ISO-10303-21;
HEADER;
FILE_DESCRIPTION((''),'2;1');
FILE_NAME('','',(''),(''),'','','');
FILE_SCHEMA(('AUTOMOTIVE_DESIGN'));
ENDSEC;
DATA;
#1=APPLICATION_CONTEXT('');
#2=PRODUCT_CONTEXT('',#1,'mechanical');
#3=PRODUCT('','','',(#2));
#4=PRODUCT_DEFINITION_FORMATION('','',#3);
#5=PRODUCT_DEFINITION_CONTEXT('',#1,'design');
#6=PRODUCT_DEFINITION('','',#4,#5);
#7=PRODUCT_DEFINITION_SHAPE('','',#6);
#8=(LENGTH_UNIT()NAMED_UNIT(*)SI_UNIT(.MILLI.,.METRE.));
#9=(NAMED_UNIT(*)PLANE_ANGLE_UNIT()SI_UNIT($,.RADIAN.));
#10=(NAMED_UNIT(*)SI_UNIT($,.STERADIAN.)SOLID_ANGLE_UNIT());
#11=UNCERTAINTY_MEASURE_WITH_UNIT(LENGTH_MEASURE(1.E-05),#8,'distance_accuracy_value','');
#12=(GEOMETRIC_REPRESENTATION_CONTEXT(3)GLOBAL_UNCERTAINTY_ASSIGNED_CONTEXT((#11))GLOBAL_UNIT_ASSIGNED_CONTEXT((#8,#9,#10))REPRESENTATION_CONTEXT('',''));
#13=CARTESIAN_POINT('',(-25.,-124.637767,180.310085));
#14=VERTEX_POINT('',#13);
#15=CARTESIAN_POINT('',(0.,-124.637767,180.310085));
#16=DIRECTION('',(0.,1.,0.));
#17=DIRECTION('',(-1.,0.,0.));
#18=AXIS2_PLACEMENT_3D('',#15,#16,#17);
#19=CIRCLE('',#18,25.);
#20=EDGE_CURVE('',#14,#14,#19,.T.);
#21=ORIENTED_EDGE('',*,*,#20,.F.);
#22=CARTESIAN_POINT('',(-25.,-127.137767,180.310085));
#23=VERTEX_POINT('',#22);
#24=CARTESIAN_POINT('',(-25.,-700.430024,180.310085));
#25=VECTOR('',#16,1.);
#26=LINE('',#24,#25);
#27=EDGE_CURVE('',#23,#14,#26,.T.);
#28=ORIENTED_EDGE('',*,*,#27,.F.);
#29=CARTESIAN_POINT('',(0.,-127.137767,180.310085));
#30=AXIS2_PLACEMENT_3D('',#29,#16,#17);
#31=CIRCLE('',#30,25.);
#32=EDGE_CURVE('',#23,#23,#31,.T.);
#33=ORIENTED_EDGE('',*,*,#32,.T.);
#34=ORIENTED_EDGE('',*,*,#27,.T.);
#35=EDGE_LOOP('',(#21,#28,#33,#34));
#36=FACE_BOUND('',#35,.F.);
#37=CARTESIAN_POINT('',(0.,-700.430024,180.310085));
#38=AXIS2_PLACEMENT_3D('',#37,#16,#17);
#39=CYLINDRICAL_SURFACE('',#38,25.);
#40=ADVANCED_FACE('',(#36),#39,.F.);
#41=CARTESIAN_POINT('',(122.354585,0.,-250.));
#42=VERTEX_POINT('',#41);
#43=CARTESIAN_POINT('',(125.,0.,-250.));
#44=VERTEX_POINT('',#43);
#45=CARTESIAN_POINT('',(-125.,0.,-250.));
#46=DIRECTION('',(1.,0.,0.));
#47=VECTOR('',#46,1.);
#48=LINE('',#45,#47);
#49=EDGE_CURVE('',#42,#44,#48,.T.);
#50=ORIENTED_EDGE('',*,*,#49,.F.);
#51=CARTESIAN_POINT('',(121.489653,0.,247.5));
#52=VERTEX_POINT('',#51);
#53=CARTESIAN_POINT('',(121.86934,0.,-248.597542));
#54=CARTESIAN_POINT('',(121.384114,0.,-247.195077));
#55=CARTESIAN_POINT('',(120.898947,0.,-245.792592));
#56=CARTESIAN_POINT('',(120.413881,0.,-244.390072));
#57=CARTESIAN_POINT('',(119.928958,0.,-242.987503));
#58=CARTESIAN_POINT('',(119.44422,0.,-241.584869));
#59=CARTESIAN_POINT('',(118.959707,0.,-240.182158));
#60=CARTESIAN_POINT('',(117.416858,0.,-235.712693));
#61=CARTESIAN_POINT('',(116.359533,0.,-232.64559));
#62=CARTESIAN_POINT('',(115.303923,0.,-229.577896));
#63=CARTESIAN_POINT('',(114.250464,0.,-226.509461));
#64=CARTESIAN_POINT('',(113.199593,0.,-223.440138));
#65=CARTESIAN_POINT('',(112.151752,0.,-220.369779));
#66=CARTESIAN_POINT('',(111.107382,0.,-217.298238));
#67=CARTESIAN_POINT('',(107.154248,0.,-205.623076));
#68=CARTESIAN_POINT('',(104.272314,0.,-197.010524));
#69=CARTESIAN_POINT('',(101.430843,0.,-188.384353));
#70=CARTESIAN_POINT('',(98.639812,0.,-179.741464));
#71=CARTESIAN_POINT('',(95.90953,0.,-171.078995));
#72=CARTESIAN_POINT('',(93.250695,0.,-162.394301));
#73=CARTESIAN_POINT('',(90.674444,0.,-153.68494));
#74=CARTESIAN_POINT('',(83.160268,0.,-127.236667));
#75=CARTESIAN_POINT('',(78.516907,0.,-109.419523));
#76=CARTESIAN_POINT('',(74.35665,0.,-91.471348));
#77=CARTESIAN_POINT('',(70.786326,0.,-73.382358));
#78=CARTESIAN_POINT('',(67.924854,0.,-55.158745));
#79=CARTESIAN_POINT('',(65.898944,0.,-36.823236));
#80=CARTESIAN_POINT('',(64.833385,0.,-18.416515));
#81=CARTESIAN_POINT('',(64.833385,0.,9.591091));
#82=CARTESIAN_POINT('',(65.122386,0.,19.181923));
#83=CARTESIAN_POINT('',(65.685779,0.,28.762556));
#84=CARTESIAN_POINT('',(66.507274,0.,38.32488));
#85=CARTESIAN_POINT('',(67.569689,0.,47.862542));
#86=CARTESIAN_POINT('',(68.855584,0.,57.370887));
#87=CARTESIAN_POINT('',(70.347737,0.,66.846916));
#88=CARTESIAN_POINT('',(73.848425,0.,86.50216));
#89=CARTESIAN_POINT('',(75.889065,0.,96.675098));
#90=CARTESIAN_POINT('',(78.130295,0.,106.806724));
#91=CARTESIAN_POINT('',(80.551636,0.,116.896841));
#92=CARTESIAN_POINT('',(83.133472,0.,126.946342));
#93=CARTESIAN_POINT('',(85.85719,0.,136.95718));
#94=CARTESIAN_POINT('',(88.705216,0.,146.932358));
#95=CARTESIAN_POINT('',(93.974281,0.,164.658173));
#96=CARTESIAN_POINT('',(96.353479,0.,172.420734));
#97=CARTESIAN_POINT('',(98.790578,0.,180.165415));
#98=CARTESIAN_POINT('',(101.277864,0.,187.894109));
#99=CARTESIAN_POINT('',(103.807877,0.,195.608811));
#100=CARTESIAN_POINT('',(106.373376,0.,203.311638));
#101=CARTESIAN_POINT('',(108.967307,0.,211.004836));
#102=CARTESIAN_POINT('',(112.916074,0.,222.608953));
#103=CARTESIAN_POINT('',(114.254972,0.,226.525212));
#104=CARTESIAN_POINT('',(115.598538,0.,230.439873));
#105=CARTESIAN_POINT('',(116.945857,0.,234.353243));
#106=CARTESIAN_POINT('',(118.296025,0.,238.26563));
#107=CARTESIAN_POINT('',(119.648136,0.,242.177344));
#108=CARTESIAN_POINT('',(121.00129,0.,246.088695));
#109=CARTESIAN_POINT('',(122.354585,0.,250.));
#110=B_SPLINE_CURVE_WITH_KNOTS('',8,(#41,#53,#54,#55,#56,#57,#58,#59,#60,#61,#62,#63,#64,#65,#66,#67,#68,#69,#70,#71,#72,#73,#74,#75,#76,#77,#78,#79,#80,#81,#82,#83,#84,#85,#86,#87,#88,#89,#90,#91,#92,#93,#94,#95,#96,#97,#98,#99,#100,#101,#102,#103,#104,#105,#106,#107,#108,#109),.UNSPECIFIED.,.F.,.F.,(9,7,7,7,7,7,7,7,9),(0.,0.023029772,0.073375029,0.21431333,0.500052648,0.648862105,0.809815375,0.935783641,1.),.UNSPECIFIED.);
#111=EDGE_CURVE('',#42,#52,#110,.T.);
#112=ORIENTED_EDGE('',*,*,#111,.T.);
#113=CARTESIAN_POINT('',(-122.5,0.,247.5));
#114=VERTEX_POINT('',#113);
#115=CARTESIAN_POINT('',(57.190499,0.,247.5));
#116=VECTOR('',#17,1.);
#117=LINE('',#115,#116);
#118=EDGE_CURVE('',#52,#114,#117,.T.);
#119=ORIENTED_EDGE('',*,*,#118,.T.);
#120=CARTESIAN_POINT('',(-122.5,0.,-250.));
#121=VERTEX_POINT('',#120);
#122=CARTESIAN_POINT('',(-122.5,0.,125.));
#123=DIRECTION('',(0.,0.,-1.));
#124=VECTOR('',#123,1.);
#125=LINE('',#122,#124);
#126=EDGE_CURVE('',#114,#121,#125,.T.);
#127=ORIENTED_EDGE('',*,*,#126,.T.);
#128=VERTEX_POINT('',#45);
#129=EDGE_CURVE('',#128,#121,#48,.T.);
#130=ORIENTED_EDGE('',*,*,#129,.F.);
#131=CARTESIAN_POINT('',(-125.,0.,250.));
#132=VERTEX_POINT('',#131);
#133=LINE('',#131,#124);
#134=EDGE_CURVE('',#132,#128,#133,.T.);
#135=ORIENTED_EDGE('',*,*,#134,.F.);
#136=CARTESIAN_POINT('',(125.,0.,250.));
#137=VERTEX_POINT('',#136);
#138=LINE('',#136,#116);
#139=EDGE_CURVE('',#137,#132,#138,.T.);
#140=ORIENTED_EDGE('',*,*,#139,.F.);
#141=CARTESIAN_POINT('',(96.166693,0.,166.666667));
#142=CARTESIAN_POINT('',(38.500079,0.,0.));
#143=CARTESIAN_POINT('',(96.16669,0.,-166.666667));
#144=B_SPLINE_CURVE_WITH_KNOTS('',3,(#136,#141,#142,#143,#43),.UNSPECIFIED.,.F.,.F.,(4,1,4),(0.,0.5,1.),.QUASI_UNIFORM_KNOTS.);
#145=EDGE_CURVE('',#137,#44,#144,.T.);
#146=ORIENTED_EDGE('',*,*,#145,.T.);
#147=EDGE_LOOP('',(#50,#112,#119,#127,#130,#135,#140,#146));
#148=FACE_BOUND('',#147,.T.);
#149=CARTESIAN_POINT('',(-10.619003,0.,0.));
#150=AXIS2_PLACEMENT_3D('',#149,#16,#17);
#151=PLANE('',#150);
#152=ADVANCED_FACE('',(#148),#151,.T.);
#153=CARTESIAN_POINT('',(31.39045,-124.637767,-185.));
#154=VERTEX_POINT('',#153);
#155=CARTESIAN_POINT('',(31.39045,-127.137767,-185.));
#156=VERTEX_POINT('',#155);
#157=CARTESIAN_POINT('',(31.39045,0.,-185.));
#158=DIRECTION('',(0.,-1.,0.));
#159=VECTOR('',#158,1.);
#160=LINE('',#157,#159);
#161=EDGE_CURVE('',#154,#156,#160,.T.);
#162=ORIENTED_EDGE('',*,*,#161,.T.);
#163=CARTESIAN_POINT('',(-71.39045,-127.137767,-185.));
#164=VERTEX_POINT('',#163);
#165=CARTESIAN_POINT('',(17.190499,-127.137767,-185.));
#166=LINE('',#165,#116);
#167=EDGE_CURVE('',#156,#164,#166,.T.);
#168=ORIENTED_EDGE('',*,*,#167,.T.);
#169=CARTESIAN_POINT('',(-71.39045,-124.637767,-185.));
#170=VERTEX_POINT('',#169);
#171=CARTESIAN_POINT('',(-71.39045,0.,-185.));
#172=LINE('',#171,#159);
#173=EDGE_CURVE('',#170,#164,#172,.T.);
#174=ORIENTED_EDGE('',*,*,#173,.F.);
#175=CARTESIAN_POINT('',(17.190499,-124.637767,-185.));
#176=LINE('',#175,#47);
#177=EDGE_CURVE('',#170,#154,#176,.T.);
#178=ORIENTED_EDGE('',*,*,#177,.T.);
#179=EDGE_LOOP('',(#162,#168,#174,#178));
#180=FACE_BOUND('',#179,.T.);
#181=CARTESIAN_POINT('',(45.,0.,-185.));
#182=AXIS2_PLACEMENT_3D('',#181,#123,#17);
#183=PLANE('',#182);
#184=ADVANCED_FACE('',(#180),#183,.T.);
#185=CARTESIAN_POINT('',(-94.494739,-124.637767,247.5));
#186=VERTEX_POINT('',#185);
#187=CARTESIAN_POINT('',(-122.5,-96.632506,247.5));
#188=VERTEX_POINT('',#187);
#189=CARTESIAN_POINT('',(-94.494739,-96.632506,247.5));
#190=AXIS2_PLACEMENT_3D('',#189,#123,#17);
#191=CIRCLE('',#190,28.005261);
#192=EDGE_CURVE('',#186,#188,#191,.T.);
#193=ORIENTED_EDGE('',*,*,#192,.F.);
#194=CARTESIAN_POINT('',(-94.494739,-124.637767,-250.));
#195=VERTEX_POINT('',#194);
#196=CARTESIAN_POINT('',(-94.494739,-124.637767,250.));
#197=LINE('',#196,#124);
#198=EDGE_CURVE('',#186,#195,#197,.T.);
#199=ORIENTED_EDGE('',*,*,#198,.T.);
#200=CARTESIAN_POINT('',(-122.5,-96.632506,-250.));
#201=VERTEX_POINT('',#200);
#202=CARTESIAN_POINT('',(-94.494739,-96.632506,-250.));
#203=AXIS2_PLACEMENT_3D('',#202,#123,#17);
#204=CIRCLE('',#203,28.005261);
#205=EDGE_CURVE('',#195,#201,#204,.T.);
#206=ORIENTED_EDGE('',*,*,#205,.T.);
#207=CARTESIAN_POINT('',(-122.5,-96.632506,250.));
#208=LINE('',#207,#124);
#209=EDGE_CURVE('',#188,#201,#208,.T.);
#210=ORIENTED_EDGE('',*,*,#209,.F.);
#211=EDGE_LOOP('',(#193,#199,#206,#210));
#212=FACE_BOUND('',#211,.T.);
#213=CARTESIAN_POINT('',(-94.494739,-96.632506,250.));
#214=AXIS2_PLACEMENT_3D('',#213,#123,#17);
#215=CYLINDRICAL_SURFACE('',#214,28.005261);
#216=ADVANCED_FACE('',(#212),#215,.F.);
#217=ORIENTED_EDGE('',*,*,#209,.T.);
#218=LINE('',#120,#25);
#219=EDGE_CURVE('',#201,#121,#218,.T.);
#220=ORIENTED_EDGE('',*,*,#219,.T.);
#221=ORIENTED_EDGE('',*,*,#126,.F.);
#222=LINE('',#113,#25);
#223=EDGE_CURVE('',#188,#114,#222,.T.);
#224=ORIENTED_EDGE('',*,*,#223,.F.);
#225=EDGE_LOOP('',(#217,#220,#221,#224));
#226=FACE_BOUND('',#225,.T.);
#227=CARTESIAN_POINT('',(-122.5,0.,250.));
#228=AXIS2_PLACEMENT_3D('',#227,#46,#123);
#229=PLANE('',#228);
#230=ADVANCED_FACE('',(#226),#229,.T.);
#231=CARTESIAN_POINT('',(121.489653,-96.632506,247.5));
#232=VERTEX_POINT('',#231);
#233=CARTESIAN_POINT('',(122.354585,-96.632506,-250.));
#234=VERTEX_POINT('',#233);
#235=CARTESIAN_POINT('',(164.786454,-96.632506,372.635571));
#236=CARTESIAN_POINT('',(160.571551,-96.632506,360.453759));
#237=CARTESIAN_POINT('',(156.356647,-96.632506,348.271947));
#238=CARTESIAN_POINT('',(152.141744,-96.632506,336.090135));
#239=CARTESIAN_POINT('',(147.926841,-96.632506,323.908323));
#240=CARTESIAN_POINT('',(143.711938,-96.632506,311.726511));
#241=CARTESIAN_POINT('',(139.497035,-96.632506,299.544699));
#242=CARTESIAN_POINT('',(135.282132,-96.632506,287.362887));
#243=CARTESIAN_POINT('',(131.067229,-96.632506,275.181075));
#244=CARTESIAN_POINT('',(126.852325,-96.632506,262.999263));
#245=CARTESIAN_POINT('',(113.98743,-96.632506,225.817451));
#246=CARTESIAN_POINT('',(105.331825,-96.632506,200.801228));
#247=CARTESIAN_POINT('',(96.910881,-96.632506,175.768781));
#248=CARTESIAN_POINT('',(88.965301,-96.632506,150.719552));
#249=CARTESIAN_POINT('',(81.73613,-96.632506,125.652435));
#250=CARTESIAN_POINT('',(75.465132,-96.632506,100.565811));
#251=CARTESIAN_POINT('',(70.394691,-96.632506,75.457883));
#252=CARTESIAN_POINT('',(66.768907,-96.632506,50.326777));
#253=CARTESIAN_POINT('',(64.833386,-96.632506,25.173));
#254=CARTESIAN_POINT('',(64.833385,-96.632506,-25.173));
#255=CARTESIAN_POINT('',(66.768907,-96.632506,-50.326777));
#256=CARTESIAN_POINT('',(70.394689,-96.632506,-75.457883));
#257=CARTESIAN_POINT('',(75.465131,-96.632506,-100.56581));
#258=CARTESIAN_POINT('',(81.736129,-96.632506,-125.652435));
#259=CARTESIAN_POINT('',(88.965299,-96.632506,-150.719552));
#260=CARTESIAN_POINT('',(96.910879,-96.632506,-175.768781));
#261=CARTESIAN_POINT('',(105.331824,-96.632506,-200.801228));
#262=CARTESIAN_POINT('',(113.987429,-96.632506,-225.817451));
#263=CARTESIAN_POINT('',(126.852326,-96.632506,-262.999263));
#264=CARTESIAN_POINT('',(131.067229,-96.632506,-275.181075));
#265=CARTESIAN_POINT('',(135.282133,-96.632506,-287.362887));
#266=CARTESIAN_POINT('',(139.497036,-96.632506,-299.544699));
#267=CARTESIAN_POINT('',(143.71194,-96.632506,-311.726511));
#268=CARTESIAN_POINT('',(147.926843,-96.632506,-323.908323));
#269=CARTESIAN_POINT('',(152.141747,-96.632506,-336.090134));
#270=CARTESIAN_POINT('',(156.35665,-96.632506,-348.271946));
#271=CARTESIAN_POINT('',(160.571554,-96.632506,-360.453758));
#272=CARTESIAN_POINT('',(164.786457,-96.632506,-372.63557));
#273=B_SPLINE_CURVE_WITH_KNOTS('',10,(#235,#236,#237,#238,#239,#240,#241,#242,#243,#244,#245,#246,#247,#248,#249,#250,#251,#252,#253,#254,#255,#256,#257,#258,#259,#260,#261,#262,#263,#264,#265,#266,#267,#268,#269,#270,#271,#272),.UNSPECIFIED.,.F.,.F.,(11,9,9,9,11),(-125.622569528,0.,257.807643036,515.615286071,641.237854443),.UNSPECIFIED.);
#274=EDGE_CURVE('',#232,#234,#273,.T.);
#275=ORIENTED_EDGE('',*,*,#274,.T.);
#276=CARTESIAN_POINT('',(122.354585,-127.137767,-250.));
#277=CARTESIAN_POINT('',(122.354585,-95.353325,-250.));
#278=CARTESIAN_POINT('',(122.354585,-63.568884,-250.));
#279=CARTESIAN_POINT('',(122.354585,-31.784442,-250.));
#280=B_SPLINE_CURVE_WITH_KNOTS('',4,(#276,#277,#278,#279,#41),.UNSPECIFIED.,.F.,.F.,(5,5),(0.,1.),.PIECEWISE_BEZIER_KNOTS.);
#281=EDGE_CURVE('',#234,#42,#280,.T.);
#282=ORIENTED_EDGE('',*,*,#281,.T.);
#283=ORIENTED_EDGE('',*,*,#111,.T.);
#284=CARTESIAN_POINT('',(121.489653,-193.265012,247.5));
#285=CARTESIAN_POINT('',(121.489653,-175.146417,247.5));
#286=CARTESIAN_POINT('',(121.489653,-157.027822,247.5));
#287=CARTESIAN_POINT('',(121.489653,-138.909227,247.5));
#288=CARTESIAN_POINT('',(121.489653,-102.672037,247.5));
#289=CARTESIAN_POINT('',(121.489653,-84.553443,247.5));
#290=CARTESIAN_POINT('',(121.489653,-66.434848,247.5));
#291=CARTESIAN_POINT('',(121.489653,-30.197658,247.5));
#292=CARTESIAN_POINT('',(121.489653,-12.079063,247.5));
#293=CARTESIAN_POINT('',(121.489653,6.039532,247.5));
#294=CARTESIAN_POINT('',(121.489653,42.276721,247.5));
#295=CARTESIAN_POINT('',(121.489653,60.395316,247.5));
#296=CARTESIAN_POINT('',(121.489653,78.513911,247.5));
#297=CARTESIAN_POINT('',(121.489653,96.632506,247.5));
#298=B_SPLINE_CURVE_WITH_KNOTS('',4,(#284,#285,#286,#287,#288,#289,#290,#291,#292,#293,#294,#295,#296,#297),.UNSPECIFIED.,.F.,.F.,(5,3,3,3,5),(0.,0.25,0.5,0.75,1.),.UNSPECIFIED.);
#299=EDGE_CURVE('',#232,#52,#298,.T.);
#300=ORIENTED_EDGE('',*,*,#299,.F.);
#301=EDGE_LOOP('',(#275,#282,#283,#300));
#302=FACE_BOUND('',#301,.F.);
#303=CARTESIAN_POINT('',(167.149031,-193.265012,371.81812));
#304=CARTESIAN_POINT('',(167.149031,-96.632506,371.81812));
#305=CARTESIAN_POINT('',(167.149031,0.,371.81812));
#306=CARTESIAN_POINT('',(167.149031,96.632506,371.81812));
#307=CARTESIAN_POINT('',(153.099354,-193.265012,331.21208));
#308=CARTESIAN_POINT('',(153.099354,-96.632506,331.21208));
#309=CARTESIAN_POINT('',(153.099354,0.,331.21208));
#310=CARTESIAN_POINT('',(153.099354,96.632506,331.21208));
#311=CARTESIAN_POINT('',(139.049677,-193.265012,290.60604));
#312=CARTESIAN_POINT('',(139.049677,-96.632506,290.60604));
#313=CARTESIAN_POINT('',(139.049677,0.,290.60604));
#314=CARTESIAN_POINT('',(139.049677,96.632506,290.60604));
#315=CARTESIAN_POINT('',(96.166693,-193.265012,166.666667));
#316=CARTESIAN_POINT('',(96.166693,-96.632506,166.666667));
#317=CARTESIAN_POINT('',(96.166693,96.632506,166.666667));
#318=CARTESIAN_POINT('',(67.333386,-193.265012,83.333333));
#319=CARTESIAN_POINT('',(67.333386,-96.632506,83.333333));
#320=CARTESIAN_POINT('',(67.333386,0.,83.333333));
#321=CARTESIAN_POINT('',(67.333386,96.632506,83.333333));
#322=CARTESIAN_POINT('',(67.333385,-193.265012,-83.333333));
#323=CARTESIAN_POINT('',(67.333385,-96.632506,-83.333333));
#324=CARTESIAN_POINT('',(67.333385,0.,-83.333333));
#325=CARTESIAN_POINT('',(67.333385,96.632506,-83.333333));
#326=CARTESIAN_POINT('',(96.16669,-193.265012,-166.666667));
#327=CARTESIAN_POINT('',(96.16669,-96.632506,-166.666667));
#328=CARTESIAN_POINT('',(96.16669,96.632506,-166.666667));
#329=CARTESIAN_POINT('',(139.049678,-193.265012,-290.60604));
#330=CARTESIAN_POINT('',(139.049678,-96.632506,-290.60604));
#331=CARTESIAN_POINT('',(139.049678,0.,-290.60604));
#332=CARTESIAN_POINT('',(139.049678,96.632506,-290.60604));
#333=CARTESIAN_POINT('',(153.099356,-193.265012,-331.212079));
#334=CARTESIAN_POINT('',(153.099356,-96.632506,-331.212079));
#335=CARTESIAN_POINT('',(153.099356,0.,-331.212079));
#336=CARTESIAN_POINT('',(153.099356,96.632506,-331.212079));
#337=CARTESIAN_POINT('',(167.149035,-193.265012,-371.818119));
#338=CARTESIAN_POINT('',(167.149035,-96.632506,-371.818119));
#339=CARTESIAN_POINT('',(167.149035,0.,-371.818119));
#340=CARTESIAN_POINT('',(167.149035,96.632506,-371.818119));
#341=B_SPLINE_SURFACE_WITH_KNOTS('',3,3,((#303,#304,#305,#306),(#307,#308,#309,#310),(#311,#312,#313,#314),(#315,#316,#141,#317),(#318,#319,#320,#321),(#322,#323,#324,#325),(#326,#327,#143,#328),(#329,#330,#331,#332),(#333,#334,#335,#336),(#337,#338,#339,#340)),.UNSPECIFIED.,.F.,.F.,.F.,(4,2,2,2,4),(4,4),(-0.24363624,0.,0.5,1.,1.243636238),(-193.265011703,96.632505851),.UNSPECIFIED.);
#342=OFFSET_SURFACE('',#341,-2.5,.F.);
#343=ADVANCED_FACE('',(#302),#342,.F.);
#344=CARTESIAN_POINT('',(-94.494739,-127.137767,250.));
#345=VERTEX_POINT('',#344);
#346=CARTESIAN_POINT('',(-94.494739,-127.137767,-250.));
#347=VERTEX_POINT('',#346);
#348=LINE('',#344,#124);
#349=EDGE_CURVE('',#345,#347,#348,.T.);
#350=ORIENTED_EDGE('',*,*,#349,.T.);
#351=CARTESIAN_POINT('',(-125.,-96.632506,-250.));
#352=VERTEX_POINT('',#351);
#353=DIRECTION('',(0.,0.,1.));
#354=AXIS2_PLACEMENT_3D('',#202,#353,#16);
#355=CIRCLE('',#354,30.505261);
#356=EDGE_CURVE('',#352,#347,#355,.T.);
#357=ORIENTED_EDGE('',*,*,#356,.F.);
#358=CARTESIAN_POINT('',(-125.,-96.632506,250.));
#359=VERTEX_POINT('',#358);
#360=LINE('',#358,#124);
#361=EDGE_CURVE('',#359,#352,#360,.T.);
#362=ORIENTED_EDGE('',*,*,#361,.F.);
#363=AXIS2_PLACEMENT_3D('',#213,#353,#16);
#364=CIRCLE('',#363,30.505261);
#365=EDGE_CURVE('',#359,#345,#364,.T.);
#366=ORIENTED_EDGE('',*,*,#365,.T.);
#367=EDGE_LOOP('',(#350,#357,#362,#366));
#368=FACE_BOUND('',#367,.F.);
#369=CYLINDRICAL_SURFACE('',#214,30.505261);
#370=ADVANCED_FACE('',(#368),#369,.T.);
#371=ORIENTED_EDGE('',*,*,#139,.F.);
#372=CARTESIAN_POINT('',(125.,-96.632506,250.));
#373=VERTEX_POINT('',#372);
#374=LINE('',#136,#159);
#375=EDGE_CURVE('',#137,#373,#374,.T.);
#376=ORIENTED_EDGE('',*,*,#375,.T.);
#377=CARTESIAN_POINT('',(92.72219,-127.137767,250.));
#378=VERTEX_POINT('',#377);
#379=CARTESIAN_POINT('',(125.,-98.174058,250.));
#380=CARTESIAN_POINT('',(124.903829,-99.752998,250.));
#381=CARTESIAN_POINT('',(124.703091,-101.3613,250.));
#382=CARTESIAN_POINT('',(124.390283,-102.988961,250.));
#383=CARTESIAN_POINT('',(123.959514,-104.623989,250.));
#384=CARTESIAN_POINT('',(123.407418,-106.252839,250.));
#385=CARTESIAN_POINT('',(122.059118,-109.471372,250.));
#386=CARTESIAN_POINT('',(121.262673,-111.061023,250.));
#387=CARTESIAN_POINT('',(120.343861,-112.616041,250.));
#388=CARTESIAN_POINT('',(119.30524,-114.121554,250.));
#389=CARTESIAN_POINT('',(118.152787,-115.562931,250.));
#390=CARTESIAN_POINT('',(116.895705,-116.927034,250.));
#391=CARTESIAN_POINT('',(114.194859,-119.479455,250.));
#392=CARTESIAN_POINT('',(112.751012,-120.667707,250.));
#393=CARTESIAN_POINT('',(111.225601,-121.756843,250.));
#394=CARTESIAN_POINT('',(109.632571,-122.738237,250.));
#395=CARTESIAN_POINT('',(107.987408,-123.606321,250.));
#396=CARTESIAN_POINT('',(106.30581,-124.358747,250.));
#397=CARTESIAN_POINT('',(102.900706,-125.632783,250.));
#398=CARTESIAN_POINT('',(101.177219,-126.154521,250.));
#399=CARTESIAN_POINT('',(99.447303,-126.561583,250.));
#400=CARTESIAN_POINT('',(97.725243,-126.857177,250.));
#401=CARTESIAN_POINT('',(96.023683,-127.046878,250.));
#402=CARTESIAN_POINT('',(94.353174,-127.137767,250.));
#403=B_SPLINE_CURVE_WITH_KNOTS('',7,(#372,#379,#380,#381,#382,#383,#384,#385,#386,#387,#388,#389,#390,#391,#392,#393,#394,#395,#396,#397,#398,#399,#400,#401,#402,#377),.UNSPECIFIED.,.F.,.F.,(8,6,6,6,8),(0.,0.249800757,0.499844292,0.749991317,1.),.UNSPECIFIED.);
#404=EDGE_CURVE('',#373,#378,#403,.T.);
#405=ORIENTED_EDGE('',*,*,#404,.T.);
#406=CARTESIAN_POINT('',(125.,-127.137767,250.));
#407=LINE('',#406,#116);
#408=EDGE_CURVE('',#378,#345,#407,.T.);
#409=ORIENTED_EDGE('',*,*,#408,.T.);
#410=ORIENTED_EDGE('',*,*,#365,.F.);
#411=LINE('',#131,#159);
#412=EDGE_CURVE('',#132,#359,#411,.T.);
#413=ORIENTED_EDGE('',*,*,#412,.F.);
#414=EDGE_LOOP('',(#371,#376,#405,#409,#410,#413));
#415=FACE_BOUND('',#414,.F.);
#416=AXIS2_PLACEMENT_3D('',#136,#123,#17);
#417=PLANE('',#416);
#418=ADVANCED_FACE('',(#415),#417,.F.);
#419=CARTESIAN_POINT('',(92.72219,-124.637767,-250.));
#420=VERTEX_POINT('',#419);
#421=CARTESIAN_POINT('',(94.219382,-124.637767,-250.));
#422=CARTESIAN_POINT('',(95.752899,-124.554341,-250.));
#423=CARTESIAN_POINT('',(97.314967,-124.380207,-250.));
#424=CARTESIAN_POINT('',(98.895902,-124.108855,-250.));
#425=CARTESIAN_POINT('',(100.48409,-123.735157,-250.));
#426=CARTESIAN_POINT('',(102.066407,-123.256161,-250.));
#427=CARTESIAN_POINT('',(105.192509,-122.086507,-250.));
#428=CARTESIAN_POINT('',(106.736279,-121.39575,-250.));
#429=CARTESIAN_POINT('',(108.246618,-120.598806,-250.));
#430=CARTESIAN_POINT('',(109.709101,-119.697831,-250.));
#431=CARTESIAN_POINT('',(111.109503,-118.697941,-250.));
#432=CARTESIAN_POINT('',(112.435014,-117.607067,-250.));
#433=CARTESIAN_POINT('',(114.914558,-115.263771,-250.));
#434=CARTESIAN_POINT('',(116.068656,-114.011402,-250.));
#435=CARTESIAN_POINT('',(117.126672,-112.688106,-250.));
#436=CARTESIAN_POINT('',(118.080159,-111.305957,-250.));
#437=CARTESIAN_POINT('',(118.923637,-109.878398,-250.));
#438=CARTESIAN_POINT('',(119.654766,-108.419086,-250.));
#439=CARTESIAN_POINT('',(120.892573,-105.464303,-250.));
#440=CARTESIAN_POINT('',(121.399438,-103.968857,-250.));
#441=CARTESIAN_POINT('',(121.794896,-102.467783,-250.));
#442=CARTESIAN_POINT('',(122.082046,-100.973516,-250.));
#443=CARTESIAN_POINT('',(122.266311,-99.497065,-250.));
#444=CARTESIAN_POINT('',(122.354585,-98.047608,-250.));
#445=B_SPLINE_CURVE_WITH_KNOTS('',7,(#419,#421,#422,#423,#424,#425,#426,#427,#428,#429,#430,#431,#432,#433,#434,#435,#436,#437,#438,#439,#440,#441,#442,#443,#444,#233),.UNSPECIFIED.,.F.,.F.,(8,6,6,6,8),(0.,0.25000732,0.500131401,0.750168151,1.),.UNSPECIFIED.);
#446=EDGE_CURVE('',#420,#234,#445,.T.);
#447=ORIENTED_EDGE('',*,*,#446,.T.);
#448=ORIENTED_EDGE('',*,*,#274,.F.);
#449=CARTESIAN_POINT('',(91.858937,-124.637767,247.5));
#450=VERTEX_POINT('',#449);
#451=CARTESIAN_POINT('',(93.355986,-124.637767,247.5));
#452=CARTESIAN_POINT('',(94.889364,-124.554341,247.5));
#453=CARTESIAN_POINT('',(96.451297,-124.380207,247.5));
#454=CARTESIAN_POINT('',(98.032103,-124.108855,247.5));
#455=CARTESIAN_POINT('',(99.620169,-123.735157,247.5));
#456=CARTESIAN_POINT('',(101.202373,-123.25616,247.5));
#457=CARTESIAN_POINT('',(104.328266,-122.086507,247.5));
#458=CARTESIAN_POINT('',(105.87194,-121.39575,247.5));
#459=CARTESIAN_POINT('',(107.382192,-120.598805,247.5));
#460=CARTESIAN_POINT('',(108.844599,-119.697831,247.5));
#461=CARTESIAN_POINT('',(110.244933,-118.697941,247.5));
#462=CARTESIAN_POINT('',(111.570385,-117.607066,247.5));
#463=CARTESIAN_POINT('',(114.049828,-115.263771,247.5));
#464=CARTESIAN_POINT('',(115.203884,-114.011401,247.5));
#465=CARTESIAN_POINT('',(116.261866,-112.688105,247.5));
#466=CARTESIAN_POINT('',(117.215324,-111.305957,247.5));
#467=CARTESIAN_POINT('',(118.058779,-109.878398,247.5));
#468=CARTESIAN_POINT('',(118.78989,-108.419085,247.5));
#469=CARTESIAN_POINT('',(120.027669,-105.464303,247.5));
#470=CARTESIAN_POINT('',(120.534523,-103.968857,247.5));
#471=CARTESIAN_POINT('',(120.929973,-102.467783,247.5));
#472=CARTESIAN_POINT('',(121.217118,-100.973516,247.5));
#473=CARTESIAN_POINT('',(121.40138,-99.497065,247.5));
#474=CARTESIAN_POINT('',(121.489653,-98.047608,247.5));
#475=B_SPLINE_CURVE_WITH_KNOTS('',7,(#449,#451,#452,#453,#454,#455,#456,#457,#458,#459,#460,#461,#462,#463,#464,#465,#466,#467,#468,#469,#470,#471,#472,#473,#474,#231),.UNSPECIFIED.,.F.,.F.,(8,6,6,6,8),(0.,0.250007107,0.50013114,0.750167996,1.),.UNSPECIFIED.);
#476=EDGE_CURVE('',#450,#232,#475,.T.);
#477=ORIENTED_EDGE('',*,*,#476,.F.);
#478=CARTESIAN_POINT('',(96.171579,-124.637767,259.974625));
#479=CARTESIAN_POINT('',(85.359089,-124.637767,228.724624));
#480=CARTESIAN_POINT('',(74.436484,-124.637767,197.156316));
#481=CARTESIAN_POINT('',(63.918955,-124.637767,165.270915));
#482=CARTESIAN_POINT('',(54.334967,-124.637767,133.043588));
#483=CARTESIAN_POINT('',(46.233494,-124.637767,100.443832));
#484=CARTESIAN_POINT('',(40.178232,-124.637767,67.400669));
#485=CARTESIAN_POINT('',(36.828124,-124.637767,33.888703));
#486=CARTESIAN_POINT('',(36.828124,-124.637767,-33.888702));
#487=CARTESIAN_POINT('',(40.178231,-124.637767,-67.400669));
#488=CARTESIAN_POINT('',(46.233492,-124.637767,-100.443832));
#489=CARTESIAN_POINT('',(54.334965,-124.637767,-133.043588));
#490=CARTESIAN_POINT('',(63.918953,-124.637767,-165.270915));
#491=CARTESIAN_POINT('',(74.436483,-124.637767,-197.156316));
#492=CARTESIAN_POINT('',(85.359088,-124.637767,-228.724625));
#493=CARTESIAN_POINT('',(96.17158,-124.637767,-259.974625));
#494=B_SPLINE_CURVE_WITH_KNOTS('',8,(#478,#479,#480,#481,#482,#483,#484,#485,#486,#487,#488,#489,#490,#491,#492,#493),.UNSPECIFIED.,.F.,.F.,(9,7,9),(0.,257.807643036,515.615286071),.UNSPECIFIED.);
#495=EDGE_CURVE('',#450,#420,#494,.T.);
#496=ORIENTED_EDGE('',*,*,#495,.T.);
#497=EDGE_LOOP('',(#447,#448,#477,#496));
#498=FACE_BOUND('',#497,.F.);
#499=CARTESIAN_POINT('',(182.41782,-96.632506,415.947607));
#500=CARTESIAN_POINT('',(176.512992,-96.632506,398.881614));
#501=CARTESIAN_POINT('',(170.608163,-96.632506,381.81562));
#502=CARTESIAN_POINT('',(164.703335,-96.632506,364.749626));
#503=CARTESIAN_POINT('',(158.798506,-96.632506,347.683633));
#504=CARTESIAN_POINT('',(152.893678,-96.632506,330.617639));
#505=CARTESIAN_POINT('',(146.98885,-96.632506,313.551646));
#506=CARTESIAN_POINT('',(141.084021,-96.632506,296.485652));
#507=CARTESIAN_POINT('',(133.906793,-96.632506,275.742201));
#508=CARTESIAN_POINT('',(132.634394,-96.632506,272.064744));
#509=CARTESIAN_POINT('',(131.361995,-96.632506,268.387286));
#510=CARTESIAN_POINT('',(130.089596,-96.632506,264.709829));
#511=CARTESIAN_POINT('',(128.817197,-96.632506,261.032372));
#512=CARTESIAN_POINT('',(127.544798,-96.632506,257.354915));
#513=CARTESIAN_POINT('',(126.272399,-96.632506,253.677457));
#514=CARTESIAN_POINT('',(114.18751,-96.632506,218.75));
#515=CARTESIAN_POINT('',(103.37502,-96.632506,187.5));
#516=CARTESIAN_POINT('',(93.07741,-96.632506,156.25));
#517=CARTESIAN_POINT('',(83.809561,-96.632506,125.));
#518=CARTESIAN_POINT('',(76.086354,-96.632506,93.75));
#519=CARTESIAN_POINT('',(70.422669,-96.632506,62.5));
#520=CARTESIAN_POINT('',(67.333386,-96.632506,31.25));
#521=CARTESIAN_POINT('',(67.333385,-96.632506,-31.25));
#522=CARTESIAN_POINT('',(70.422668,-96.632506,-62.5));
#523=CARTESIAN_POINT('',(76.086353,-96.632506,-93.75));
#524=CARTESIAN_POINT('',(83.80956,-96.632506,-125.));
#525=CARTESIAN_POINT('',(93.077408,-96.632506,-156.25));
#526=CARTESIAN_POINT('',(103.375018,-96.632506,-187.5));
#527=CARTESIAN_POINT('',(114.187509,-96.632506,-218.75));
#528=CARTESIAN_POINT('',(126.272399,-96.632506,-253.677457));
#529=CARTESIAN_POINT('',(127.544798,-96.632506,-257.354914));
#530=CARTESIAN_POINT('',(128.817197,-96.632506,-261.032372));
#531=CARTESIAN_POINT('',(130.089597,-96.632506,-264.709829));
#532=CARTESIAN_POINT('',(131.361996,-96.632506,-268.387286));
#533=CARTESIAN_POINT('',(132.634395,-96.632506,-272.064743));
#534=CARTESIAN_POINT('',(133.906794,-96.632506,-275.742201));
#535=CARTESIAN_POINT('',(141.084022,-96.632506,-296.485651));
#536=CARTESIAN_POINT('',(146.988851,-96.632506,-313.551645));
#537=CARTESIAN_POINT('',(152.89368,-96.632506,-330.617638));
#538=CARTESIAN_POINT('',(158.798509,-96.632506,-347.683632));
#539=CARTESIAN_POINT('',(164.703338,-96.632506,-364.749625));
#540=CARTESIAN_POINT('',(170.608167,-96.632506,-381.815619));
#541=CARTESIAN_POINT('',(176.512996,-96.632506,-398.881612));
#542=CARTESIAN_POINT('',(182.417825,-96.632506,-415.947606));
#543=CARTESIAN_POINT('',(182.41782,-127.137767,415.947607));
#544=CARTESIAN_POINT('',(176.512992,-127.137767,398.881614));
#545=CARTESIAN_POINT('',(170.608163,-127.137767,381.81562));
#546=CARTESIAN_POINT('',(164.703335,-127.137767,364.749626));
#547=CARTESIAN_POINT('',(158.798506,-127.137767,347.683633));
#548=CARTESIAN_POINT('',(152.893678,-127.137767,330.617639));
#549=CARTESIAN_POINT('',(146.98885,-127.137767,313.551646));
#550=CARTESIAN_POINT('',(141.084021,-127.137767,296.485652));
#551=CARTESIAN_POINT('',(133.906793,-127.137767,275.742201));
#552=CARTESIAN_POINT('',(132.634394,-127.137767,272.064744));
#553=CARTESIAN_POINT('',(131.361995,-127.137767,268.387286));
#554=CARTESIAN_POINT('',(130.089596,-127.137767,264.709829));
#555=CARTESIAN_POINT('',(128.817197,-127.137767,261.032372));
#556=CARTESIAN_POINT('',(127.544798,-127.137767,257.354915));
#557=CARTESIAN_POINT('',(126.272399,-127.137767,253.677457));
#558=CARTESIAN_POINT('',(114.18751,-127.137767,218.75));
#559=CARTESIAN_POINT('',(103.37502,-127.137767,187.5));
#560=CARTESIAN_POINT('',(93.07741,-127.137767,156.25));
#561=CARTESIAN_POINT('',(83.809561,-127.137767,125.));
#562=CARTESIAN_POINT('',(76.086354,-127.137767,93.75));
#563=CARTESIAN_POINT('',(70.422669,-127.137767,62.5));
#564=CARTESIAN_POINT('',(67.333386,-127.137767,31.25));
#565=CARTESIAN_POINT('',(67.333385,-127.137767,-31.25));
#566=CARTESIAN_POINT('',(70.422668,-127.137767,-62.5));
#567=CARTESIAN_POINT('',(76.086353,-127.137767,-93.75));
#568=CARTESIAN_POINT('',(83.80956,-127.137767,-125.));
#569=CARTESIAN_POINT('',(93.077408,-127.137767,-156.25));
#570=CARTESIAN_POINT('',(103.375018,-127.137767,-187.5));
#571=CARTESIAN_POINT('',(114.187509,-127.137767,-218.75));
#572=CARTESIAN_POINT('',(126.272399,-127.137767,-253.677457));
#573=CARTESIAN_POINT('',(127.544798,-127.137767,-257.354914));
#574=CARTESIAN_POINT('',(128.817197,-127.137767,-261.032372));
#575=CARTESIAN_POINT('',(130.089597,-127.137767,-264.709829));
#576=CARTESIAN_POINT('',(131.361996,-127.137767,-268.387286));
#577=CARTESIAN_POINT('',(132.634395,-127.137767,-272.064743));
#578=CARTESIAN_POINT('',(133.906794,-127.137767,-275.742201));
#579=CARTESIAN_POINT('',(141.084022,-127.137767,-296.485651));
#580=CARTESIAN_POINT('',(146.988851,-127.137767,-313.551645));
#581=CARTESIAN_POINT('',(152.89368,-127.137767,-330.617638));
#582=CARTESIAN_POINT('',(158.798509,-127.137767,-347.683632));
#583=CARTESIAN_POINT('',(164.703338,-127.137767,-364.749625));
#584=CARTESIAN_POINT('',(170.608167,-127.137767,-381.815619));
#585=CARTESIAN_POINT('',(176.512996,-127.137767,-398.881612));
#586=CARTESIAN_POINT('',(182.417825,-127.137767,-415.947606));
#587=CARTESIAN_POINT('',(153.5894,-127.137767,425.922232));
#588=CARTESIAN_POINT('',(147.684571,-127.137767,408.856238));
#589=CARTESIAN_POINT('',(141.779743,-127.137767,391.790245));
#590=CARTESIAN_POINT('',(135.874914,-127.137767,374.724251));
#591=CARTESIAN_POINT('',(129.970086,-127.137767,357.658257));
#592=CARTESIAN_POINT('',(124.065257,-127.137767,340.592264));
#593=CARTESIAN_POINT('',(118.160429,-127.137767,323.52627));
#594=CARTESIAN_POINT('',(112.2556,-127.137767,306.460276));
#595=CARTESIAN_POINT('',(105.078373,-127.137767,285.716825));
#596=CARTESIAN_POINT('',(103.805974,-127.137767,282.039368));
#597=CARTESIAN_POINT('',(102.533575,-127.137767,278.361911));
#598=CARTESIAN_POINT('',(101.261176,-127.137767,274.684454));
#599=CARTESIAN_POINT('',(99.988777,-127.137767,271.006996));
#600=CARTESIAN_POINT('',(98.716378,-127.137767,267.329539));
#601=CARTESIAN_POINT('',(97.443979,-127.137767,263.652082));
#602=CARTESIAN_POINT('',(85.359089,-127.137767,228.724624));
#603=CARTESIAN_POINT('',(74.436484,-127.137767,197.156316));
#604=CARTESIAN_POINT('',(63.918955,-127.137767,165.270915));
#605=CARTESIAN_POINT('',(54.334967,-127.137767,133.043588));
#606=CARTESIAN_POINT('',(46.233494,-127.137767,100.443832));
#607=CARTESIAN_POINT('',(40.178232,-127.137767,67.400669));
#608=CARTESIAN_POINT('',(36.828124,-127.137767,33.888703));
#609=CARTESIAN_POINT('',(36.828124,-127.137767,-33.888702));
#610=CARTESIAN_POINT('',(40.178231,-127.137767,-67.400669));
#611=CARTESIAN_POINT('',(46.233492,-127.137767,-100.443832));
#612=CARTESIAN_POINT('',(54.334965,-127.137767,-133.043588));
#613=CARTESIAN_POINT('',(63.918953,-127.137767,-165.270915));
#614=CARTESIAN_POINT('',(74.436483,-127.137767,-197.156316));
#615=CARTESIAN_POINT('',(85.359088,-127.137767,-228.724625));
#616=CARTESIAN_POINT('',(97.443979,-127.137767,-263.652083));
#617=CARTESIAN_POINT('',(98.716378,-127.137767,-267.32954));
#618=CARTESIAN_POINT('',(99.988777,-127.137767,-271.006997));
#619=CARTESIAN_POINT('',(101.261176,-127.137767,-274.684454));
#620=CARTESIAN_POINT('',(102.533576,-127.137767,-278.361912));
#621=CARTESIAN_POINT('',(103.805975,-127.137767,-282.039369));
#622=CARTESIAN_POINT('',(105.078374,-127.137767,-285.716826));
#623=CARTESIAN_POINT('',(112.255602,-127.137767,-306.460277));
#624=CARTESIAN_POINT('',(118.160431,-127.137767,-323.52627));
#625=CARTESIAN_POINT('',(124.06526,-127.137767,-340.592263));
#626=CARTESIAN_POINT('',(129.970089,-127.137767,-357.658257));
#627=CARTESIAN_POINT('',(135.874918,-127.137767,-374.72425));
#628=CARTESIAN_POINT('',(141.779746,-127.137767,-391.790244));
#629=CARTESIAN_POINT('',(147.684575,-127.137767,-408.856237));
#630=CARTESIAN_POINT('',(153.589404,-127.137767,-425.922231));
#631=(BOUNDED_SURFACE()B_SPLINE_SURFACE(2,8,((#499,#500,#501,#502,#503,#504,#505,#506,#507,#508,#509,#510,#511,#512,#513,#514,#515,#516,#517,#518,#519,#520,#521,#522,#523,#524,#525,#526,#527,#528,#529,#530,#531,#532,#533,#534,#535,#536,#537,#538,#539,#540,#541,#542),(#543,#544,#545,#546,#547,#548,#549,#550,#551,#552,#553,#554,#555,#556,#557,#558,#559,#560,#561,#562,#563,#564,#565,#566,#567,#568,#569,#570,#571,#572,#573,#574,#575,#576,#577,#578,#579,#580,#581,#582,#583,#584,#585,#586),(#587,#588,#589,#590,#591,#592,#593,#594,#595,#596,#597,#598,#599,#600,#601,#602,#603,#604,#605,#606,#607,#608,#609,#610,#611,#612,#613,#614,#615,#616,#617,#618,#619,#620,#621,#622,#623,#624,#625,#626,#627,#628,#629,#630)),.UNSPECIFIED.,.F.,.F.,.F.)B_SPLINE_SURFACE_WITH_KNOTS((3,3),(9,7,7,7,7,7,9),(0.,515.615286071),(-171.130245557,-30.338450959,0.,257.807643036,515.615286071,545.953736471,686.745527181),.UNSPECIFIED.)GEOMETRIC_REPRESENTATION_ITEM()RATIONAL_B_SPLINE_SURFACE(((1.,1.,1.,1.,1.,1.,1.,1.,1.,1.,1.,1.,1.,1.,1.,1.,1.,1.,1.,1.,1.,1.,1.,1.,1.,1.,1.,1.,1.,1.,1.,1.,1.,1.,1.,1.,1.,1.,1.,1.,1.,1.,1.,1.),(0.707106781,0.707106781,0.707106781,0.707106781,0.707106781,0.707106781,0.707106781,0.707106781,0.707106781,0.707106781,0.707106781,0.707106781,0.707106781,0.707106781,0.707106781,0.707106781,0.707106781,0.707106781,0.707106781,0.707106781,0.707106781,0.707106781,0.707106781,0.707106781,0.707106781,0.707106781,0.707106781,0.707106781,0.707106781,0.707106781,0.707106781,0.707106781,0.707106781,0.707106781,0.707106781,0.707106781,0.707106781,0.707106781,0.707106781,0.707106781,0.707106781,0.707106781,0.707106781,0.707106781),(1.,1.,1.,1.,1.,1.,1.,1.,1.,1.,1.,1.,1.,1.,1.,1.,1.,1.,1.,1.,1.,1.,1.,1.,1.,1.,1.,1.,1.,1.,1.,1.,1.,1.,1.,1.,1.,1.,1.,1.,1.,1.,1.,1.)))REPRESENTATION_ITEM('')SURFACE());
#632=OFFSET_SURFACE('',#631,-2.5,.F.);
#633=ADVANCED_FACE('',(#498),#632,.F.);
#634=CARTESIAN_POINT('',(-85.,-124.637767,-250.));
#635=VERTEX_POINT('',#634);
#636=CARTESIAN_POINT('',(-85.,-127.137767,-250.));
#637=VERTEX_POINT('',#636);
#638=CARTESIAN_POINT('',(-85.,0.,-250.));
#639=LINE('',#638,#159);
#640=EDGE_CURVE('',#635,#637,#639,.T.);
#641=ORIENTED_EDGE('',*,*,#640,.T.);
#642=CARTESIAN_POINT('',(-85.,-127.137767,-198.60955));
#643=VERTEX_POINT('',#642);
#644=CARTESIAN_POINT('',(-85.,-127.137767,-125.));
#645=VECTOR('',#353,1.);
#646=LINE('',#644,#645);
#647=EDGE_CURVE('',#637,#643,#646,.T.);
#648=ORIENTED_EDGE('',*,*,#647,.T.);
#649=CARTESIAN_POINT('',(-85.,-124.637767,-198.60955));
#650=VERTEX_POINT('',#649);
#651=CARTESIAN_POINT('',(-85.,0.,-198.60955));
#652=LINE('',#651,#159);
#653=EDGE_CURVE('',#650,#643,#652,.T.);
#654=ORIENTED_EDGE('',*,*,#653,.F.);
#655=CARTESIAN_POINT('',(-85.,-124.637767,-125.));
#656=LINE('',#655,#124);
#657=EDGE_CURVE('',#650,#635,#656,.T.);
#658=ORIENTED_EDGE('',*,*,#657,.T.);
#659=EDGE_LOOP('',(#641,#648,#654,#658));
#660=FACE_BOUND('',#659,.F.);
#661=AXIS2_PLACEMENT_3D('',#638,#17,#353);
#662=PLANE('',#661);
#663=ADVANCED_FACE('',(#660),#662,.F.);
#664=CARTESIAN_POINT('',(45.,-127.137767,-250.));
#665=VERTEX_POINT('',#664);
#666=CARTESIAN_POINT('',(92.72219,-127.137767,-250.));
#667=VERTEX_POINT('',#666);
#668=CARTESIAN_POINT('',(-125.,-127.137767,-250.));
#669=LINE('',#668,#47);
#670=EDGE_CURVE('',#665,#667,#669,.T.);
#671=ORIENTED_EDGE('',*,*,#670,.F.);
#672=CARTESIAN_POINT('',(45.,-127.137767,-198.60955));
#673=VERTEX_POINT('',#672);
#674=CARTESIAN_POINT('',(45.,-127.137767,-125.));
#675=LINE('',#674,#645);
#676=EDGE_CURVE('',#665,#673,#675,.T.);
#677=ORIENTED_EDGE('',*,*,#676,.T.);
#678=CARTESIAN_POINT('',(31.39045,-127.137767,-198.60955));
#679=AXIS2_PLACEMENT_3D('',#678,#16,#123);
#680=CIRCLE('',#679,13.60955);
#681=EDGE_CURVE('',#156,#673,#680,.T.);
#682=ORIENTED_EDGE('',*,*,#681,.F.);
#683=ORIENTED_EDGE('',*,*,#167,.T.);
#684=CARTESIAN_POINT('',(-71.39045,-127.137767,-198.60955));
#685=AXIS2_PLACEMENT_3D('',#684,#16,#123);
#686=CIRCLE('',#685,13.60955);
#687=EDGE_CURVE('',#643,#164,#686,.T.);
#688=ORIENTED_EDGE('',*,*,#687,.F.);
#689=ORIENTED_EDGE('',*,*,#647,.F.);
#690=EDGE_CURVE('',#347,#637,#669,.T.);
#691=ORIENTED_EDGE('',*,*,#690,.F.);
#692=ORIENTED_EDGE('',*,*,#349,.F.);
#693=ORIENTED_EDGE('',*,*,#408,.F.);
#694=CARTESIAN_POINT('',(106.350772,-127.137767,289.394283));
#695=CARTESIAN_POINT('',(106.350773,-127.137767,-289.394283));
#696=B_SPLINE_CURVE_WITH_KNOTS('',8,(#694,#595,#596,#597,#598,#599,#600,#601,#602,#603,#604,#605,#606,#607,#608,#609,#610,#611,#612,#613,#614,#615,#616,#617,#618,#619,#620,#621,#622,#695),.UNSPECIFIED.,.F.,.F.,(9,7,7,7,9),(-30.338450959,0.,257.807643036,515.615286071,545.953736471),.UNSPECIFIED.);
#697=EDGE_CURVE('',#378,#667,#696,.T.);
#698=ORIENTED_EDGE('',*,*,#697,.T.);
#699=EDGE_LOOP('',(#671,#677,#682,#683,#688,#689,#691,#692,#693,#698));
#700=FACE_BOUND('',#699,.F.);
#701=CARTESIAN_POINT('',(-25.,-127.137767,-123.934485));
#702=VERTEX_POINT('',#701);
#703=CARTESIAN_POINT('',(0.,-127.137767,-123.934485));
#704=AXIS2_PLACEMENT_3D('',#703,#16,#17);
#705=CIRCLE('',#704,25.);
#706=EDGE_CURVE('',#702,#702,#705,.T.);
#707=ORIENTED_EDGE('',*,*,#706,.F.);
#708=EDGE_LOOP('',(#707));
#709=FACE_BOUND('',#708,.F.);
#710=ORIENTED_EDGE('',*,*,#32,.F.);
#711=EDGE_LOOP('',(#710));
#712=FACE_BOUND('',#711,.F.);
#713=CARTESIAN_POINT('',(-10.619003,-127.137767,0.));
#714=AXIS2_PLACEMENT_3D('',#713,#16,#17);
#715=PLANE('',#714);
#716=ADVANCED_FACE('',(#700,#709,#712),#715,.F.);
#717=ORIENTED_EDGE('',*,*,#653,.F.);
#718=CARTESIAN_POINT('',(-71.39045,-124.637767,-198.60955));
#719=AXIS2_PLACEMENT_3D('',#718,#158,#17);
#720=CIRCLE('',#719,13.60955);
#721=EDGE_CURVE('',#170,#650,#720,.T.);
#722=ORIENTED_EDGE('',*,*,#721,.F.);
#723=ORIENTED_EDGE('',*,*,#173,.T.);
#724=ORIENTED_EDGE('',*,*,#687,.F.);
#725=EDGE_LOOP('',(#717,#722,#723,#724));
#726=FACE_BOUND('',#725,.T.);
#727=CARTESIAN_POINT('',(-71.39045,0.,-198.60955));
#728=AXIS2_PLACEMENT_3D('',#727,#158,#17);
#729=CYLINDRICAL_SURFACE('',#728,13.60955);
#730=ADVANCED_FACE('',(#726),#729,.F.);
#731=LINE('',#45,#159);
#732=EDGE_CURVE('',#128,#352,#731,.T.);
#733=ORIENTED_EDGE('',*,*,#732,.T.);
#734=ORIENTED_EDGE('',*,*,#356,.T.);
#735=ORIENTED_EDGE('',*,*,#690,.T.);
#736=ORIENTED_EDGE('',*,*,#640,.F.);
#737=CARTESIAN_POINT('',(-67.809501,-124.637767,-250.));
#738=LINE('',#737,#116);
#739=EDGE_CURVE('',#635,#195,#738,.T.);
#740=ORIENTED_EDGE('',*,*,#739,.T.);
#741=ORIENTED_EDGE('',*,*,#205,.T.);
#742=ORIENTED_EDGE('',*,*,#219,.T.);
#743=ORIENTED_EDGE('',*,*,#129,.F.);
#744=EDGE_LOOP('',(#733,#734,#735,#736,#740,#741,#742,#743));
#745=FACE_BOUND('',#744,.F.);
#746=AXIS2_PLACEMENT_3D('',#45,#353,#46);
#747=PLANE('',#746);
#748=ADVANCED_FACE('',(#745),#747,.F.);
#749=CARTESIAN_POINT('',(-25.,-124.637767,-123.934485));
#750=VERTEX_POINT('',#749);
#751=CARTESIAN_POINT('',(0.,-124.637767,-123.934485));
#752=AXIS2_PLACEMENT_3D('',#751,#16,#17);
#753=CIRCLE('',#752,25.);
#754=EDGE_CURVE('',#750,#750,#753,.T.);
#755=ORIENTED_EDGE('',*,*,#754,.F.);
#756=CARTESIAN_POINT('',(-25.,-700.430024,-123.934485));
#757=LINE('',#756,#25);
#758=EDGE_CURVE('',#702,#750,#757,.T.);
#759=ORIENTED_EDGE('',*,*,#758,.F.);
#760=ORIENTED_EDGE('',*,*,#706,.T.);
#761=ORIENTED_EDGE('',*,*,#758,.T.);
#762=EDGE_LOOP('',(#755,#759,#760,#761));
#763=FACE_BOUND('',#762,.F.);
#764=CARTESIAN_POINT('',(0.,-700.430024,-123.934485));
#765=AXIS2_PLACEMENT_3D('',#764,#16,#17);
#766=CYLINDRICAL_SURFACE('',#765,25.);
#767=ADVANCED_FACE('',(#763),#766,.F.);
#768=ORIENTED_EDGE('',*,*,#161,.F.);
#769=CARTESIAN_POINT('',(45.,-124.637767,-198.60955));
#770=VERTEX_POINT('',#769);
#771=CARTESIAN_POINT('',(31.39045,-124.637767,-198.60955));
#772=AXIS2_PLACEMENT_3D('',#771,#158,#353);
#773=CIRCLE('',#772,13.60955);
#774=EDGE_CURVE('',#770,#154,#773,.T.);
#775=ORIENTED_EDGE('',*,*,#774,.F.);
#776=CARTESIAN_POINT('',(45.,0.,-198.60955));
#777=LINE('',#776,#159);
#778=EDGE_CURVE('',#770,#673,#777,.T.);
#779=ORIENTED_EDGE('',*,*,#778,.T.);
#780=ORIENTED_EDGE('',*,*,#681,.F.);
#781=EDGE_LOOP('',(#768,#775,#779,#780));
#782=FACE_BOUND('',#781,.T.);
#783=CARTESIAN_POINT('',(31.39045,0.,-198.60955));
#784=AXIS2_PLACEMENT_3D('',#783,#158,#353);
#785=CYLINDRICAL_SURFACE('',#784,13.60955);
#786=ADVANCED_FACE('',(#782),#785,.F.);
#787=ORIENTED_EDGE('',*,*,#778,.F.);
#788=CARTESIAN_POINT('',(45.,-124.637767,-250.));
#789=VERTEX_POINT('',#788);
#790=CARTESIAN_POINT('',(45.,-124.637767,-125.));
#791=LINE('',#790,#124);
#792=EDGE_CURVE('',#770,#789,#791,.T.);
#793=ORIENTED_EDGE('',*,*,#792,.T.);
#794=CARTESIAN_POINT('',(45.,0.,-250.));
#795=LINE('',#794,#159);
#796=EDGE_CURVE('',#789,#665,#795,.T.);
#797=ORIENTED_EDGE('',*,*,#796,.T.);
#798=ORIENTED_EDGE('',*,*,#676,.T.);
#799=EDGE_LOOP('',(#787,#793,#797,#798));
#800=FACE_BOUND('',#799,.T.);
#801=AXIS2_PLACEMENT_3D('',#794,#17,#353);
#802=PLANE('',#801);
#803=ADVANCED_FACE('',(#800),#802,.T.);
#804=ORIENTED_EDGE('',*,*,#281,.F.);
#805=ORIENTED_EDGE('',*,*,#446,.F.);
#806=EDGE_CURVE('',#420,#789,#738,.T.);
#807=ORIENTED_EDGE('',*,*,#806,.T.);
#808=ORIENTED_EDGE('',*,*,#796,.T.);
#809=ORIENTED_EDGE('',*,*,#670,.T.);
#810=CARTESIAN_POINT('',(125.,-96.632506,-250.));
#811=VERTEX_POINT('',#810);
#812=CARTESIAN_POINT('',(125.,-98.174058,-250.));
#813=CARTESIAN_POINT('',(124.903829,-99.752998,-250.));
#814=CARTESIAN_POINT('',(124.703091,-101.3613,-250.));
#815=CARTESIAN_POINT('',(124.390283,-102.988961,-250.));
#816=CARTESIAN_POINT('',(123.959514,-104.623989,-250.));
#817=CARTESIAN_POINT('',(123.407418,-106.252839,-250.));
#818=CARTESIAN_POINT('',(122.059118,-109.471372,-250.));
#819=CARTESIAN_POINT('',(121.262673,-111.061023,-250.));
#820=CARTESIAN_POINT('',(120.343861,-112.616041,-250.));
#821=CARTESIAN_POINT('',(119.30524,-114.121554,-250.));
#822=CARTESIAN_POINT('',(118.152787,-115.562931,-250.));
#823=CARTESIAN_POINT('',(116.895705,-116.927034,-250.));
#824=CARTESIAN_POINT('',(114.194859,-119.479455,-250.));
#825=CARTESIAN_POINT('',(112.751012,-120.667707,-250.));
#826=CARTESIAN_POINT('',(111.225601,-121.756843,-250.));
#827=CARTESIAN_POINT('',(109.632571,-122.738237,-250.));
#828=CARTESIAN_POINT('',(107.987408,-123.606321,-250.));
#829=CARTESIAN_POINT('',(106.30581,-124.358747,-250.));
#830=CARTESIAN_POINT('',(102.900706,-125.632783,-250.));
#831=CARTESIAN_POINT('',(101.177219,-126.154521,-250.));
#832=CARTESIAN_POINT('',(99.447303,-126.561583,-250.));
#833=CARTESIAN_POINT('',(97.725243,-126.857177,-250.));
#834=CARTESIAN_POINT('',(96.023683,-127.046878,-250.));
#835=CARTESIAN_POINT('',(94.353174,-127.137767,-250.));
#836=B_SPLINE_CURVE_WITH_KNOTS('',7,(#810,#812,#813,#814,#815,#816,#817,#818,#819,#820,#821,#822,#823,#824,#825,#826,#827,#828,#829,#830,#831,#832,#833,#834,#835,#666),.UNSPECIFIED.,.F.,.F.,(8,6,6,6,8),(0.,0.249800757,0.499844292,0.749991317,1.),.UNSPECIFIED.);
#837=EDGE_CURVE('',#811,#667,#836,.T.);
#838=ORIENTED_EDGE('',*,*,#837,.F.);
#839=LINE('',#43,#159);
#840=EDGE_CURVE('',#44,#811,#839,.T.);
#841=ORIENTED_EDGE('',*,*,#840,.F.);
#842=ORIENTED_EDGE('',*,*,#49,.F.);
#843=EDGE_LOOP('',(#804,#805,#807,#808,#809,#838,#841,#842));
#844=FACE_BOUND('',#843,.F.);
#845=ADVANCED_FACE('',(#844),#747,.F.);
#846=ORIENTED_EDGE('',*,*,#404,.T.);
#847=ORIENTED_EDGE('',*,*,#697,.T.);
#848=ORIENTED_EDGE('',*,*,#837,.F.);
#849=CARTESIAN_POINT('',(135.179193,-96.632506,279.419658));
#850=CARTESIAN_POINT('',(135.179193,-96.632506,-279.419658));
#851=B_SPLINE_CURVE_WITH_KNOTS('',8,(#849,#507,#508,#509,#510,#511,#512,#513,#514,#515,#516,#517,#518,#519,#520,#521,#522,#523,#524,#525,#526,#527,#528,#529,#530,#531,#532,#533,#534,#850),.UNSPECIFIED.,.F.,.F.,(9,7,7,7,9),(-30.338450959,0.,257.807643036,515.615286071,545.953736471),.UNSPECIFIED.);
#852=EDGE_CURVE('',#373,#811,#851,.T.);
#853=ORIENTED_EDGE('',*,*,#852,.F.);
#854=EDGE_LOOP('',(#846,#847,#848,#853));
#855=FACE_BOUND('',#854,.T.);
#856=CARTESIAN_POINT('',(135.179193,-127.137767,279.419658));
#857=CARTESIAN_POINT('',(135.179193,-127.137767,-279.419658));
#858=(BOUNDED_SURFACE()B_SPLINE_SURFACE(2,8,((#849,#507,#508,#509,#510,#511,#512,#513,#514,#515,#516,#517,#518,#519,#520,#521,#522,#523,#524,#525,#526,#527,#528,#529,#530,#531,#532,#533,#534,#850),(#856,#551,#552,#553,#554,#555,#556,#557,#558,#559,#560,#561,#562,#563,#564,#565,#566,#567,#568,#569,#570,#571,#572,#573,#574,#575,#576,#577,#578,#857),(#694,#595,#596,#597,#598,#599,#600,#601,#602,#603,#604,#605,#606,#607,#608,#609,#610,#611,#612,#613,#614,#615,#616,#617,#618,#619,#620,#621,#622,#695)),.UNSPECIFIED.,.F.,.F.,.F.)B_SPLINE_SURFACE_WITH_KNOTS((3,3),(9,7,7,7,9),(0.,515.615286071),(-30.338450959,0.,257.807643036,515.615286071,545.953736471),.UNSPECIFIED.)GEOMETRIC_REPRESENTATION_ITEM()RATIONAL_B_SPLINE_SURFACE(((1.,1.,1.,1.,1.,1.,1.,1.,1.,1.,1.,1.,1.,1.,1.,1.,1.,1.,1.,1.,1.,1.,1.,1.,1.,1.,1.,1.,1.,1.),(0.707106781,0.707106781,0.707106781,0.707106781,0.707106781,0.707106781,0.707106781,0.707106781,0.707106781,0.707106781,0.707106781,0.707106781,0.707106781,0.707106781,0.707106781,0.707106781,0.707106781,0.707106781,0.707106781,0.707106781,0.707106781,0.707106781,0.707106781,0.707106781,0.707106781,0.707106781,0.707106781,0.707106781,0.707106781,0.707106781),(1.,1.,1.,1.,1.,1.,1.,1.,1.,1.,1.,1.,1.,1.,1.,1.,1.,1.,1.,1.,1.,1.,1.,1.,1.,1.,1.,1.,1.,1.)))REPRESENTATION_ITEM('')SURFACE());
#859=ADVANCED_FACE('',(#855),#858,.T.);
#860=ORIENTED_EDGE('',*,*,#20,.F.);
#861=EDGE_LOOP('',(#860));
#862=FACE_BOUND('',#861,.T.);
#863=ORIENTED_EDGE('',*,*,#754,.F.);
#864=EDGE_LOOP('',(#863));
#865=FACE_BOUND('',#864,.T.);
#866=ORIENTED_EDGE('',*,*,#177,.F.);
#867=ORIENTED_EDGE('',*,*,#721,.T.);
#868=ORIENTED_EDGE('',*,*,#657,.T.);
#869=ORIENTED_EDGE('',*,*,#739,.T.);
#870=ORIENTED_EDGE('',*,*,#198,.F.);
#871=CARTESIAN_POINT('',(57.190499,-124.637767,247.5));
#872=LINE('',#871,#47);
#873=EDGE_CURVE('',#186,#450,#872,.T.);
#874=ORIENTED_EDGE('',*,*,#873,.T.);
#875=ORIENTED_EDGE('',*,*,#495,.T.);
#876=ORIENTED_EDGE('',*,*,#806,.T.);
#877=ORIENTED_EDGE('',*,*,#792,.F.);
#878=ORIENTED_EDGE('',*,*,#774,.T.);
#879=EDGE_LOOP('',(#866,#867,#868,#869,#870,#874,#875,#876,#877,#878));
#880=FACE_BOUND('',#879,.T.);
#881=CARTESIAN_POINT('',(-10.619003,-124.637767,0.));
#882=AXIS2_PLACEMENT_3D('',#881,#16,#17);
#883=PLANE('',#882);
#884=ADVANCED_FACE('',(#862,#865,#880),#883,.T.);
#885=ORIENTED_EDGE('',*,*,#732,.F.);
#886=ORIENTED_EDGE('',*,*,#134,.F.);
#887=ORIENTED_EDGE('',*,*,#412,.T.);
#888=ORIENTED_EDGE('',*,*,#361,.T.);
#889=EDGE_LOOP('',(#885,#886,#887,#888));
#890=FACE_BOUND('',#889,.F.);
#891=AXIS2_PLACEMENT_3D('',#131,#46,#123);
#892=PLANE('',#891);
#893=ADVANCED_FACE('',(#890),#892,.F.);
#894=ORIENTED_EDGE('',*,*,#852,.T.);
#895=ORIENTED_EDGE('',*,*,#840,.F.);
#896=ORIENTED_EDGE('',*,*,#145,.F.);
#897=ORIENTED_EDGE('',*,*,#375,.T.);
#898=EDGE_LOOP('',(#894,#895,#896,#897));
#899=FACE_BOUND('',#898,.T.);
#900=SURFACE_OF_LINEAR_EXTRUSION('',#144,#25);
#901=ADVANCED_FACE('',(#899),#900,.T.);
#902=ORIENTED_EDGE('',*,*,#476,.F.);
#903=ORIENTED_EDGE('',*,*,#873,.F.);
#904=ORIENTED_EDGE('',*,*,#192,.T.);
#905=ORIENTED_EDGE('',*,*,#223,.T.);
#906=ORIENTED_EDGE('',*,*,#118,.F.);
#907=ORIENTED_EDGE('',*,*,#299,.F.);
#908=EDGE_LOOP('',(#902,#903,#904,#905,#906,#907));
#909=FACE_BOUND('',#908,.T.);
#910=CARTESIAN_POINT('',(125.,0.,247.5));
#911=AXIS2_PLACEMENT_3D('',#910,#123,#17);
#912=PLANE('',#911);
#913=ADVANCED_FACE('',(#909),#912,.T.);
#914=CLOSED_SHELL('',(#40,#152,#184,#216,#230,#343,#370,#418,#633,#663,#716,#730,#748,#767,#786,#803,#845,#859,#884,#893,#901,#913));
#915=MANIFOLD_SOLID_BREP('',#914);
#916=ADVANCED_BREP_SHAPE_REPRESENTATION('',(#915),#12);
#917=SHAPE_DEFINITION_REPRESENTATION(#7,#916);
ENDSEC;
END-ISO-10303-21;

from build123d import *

# Parameters (mm, degrees)
F0_DEPTH = 127.137767151
F8_R     = 30.5052612997
F9_W     = 130
F9_H     = 65
F1_DEPTH = 404.413504526
F2_R     = 13.6095495466
F3_T     = -2.5
F5_D     = 50


with BuildPart() as f0:
    # F7 (on Front) → F0 (new body)
    with BuildSketch(Plane.XZ):
        with BuildLine():
            add(Edge.make_bspline(
                [(125, 250), (96.1666926742, 166.6666666667), (38.5000792642, 0), (96.1666901906, -166.6666666667), (125, -250)],
                knots=[0, 0, 0, 0, 0.5, 1, 1, 1, 1], degree=3))
            Line((125, 250), (-125, 250))
            Line((-125, 250), (-125, -250))
            Line((-125, -250), (125, -250))
        make_face()
    extrude(amount=F0_DEPTH)

    # F8
    f8_edges = [f0.edges().sort_by_distance(p)[0] for p in [
        (67.333385, -127.137767, 0),
        (-125, -127.137767, 0),
    ]]
    fillet(f8_edges, radius=F8_R)

    # F9 (on face) → F1 (cut)
    with BuildSketch(Plane(origin=(0, 0, 0), x_dir=(-1, 0, 0), z_dir=(0, 1, 0))):
        with Locations((20, -217.5)):
            Rectangle(F9_W, F9_H)
    extrude(amount=-F1_DEPTH, mode=Mode.SUBTRACT)

    # F2
    f2_edges = [f0.edges().sort_by_distance(p)[0] for p in [
        (45, -63.568884, -185),
        (-85, -63.568884, -185),
    ]]
    fillet(f2_edges, radius=F2_R)

    # F3
    f3_openings = [f0.faces().sort_by_distance(p)[0] for p in [
        (-17.051006, 0, 18.486444),
        (-20, -63.568884, -185),
        (-81.013855, -63.568884, -188.986145),
        (41.013855, -63.568884, -188.986145),
        (84.304295, -62.364714, -250),
        (-104.461032, -61.249084, -250),
        (-85, -63.568884, -224.304775),
        (45, -63.568884, -224.304775),
    ]]
    offset(amount=F3_T, openings=f3_openings, kind=Kind.INTERSECTION)

    # F5 (through all)
    with Locations(Plane.XZ.offset(127.137767151)):
        with Locations((0, 180.3100854158), (0, -123.9344850183)):
            Hole(F5_D / 2)


solid = f0.part
